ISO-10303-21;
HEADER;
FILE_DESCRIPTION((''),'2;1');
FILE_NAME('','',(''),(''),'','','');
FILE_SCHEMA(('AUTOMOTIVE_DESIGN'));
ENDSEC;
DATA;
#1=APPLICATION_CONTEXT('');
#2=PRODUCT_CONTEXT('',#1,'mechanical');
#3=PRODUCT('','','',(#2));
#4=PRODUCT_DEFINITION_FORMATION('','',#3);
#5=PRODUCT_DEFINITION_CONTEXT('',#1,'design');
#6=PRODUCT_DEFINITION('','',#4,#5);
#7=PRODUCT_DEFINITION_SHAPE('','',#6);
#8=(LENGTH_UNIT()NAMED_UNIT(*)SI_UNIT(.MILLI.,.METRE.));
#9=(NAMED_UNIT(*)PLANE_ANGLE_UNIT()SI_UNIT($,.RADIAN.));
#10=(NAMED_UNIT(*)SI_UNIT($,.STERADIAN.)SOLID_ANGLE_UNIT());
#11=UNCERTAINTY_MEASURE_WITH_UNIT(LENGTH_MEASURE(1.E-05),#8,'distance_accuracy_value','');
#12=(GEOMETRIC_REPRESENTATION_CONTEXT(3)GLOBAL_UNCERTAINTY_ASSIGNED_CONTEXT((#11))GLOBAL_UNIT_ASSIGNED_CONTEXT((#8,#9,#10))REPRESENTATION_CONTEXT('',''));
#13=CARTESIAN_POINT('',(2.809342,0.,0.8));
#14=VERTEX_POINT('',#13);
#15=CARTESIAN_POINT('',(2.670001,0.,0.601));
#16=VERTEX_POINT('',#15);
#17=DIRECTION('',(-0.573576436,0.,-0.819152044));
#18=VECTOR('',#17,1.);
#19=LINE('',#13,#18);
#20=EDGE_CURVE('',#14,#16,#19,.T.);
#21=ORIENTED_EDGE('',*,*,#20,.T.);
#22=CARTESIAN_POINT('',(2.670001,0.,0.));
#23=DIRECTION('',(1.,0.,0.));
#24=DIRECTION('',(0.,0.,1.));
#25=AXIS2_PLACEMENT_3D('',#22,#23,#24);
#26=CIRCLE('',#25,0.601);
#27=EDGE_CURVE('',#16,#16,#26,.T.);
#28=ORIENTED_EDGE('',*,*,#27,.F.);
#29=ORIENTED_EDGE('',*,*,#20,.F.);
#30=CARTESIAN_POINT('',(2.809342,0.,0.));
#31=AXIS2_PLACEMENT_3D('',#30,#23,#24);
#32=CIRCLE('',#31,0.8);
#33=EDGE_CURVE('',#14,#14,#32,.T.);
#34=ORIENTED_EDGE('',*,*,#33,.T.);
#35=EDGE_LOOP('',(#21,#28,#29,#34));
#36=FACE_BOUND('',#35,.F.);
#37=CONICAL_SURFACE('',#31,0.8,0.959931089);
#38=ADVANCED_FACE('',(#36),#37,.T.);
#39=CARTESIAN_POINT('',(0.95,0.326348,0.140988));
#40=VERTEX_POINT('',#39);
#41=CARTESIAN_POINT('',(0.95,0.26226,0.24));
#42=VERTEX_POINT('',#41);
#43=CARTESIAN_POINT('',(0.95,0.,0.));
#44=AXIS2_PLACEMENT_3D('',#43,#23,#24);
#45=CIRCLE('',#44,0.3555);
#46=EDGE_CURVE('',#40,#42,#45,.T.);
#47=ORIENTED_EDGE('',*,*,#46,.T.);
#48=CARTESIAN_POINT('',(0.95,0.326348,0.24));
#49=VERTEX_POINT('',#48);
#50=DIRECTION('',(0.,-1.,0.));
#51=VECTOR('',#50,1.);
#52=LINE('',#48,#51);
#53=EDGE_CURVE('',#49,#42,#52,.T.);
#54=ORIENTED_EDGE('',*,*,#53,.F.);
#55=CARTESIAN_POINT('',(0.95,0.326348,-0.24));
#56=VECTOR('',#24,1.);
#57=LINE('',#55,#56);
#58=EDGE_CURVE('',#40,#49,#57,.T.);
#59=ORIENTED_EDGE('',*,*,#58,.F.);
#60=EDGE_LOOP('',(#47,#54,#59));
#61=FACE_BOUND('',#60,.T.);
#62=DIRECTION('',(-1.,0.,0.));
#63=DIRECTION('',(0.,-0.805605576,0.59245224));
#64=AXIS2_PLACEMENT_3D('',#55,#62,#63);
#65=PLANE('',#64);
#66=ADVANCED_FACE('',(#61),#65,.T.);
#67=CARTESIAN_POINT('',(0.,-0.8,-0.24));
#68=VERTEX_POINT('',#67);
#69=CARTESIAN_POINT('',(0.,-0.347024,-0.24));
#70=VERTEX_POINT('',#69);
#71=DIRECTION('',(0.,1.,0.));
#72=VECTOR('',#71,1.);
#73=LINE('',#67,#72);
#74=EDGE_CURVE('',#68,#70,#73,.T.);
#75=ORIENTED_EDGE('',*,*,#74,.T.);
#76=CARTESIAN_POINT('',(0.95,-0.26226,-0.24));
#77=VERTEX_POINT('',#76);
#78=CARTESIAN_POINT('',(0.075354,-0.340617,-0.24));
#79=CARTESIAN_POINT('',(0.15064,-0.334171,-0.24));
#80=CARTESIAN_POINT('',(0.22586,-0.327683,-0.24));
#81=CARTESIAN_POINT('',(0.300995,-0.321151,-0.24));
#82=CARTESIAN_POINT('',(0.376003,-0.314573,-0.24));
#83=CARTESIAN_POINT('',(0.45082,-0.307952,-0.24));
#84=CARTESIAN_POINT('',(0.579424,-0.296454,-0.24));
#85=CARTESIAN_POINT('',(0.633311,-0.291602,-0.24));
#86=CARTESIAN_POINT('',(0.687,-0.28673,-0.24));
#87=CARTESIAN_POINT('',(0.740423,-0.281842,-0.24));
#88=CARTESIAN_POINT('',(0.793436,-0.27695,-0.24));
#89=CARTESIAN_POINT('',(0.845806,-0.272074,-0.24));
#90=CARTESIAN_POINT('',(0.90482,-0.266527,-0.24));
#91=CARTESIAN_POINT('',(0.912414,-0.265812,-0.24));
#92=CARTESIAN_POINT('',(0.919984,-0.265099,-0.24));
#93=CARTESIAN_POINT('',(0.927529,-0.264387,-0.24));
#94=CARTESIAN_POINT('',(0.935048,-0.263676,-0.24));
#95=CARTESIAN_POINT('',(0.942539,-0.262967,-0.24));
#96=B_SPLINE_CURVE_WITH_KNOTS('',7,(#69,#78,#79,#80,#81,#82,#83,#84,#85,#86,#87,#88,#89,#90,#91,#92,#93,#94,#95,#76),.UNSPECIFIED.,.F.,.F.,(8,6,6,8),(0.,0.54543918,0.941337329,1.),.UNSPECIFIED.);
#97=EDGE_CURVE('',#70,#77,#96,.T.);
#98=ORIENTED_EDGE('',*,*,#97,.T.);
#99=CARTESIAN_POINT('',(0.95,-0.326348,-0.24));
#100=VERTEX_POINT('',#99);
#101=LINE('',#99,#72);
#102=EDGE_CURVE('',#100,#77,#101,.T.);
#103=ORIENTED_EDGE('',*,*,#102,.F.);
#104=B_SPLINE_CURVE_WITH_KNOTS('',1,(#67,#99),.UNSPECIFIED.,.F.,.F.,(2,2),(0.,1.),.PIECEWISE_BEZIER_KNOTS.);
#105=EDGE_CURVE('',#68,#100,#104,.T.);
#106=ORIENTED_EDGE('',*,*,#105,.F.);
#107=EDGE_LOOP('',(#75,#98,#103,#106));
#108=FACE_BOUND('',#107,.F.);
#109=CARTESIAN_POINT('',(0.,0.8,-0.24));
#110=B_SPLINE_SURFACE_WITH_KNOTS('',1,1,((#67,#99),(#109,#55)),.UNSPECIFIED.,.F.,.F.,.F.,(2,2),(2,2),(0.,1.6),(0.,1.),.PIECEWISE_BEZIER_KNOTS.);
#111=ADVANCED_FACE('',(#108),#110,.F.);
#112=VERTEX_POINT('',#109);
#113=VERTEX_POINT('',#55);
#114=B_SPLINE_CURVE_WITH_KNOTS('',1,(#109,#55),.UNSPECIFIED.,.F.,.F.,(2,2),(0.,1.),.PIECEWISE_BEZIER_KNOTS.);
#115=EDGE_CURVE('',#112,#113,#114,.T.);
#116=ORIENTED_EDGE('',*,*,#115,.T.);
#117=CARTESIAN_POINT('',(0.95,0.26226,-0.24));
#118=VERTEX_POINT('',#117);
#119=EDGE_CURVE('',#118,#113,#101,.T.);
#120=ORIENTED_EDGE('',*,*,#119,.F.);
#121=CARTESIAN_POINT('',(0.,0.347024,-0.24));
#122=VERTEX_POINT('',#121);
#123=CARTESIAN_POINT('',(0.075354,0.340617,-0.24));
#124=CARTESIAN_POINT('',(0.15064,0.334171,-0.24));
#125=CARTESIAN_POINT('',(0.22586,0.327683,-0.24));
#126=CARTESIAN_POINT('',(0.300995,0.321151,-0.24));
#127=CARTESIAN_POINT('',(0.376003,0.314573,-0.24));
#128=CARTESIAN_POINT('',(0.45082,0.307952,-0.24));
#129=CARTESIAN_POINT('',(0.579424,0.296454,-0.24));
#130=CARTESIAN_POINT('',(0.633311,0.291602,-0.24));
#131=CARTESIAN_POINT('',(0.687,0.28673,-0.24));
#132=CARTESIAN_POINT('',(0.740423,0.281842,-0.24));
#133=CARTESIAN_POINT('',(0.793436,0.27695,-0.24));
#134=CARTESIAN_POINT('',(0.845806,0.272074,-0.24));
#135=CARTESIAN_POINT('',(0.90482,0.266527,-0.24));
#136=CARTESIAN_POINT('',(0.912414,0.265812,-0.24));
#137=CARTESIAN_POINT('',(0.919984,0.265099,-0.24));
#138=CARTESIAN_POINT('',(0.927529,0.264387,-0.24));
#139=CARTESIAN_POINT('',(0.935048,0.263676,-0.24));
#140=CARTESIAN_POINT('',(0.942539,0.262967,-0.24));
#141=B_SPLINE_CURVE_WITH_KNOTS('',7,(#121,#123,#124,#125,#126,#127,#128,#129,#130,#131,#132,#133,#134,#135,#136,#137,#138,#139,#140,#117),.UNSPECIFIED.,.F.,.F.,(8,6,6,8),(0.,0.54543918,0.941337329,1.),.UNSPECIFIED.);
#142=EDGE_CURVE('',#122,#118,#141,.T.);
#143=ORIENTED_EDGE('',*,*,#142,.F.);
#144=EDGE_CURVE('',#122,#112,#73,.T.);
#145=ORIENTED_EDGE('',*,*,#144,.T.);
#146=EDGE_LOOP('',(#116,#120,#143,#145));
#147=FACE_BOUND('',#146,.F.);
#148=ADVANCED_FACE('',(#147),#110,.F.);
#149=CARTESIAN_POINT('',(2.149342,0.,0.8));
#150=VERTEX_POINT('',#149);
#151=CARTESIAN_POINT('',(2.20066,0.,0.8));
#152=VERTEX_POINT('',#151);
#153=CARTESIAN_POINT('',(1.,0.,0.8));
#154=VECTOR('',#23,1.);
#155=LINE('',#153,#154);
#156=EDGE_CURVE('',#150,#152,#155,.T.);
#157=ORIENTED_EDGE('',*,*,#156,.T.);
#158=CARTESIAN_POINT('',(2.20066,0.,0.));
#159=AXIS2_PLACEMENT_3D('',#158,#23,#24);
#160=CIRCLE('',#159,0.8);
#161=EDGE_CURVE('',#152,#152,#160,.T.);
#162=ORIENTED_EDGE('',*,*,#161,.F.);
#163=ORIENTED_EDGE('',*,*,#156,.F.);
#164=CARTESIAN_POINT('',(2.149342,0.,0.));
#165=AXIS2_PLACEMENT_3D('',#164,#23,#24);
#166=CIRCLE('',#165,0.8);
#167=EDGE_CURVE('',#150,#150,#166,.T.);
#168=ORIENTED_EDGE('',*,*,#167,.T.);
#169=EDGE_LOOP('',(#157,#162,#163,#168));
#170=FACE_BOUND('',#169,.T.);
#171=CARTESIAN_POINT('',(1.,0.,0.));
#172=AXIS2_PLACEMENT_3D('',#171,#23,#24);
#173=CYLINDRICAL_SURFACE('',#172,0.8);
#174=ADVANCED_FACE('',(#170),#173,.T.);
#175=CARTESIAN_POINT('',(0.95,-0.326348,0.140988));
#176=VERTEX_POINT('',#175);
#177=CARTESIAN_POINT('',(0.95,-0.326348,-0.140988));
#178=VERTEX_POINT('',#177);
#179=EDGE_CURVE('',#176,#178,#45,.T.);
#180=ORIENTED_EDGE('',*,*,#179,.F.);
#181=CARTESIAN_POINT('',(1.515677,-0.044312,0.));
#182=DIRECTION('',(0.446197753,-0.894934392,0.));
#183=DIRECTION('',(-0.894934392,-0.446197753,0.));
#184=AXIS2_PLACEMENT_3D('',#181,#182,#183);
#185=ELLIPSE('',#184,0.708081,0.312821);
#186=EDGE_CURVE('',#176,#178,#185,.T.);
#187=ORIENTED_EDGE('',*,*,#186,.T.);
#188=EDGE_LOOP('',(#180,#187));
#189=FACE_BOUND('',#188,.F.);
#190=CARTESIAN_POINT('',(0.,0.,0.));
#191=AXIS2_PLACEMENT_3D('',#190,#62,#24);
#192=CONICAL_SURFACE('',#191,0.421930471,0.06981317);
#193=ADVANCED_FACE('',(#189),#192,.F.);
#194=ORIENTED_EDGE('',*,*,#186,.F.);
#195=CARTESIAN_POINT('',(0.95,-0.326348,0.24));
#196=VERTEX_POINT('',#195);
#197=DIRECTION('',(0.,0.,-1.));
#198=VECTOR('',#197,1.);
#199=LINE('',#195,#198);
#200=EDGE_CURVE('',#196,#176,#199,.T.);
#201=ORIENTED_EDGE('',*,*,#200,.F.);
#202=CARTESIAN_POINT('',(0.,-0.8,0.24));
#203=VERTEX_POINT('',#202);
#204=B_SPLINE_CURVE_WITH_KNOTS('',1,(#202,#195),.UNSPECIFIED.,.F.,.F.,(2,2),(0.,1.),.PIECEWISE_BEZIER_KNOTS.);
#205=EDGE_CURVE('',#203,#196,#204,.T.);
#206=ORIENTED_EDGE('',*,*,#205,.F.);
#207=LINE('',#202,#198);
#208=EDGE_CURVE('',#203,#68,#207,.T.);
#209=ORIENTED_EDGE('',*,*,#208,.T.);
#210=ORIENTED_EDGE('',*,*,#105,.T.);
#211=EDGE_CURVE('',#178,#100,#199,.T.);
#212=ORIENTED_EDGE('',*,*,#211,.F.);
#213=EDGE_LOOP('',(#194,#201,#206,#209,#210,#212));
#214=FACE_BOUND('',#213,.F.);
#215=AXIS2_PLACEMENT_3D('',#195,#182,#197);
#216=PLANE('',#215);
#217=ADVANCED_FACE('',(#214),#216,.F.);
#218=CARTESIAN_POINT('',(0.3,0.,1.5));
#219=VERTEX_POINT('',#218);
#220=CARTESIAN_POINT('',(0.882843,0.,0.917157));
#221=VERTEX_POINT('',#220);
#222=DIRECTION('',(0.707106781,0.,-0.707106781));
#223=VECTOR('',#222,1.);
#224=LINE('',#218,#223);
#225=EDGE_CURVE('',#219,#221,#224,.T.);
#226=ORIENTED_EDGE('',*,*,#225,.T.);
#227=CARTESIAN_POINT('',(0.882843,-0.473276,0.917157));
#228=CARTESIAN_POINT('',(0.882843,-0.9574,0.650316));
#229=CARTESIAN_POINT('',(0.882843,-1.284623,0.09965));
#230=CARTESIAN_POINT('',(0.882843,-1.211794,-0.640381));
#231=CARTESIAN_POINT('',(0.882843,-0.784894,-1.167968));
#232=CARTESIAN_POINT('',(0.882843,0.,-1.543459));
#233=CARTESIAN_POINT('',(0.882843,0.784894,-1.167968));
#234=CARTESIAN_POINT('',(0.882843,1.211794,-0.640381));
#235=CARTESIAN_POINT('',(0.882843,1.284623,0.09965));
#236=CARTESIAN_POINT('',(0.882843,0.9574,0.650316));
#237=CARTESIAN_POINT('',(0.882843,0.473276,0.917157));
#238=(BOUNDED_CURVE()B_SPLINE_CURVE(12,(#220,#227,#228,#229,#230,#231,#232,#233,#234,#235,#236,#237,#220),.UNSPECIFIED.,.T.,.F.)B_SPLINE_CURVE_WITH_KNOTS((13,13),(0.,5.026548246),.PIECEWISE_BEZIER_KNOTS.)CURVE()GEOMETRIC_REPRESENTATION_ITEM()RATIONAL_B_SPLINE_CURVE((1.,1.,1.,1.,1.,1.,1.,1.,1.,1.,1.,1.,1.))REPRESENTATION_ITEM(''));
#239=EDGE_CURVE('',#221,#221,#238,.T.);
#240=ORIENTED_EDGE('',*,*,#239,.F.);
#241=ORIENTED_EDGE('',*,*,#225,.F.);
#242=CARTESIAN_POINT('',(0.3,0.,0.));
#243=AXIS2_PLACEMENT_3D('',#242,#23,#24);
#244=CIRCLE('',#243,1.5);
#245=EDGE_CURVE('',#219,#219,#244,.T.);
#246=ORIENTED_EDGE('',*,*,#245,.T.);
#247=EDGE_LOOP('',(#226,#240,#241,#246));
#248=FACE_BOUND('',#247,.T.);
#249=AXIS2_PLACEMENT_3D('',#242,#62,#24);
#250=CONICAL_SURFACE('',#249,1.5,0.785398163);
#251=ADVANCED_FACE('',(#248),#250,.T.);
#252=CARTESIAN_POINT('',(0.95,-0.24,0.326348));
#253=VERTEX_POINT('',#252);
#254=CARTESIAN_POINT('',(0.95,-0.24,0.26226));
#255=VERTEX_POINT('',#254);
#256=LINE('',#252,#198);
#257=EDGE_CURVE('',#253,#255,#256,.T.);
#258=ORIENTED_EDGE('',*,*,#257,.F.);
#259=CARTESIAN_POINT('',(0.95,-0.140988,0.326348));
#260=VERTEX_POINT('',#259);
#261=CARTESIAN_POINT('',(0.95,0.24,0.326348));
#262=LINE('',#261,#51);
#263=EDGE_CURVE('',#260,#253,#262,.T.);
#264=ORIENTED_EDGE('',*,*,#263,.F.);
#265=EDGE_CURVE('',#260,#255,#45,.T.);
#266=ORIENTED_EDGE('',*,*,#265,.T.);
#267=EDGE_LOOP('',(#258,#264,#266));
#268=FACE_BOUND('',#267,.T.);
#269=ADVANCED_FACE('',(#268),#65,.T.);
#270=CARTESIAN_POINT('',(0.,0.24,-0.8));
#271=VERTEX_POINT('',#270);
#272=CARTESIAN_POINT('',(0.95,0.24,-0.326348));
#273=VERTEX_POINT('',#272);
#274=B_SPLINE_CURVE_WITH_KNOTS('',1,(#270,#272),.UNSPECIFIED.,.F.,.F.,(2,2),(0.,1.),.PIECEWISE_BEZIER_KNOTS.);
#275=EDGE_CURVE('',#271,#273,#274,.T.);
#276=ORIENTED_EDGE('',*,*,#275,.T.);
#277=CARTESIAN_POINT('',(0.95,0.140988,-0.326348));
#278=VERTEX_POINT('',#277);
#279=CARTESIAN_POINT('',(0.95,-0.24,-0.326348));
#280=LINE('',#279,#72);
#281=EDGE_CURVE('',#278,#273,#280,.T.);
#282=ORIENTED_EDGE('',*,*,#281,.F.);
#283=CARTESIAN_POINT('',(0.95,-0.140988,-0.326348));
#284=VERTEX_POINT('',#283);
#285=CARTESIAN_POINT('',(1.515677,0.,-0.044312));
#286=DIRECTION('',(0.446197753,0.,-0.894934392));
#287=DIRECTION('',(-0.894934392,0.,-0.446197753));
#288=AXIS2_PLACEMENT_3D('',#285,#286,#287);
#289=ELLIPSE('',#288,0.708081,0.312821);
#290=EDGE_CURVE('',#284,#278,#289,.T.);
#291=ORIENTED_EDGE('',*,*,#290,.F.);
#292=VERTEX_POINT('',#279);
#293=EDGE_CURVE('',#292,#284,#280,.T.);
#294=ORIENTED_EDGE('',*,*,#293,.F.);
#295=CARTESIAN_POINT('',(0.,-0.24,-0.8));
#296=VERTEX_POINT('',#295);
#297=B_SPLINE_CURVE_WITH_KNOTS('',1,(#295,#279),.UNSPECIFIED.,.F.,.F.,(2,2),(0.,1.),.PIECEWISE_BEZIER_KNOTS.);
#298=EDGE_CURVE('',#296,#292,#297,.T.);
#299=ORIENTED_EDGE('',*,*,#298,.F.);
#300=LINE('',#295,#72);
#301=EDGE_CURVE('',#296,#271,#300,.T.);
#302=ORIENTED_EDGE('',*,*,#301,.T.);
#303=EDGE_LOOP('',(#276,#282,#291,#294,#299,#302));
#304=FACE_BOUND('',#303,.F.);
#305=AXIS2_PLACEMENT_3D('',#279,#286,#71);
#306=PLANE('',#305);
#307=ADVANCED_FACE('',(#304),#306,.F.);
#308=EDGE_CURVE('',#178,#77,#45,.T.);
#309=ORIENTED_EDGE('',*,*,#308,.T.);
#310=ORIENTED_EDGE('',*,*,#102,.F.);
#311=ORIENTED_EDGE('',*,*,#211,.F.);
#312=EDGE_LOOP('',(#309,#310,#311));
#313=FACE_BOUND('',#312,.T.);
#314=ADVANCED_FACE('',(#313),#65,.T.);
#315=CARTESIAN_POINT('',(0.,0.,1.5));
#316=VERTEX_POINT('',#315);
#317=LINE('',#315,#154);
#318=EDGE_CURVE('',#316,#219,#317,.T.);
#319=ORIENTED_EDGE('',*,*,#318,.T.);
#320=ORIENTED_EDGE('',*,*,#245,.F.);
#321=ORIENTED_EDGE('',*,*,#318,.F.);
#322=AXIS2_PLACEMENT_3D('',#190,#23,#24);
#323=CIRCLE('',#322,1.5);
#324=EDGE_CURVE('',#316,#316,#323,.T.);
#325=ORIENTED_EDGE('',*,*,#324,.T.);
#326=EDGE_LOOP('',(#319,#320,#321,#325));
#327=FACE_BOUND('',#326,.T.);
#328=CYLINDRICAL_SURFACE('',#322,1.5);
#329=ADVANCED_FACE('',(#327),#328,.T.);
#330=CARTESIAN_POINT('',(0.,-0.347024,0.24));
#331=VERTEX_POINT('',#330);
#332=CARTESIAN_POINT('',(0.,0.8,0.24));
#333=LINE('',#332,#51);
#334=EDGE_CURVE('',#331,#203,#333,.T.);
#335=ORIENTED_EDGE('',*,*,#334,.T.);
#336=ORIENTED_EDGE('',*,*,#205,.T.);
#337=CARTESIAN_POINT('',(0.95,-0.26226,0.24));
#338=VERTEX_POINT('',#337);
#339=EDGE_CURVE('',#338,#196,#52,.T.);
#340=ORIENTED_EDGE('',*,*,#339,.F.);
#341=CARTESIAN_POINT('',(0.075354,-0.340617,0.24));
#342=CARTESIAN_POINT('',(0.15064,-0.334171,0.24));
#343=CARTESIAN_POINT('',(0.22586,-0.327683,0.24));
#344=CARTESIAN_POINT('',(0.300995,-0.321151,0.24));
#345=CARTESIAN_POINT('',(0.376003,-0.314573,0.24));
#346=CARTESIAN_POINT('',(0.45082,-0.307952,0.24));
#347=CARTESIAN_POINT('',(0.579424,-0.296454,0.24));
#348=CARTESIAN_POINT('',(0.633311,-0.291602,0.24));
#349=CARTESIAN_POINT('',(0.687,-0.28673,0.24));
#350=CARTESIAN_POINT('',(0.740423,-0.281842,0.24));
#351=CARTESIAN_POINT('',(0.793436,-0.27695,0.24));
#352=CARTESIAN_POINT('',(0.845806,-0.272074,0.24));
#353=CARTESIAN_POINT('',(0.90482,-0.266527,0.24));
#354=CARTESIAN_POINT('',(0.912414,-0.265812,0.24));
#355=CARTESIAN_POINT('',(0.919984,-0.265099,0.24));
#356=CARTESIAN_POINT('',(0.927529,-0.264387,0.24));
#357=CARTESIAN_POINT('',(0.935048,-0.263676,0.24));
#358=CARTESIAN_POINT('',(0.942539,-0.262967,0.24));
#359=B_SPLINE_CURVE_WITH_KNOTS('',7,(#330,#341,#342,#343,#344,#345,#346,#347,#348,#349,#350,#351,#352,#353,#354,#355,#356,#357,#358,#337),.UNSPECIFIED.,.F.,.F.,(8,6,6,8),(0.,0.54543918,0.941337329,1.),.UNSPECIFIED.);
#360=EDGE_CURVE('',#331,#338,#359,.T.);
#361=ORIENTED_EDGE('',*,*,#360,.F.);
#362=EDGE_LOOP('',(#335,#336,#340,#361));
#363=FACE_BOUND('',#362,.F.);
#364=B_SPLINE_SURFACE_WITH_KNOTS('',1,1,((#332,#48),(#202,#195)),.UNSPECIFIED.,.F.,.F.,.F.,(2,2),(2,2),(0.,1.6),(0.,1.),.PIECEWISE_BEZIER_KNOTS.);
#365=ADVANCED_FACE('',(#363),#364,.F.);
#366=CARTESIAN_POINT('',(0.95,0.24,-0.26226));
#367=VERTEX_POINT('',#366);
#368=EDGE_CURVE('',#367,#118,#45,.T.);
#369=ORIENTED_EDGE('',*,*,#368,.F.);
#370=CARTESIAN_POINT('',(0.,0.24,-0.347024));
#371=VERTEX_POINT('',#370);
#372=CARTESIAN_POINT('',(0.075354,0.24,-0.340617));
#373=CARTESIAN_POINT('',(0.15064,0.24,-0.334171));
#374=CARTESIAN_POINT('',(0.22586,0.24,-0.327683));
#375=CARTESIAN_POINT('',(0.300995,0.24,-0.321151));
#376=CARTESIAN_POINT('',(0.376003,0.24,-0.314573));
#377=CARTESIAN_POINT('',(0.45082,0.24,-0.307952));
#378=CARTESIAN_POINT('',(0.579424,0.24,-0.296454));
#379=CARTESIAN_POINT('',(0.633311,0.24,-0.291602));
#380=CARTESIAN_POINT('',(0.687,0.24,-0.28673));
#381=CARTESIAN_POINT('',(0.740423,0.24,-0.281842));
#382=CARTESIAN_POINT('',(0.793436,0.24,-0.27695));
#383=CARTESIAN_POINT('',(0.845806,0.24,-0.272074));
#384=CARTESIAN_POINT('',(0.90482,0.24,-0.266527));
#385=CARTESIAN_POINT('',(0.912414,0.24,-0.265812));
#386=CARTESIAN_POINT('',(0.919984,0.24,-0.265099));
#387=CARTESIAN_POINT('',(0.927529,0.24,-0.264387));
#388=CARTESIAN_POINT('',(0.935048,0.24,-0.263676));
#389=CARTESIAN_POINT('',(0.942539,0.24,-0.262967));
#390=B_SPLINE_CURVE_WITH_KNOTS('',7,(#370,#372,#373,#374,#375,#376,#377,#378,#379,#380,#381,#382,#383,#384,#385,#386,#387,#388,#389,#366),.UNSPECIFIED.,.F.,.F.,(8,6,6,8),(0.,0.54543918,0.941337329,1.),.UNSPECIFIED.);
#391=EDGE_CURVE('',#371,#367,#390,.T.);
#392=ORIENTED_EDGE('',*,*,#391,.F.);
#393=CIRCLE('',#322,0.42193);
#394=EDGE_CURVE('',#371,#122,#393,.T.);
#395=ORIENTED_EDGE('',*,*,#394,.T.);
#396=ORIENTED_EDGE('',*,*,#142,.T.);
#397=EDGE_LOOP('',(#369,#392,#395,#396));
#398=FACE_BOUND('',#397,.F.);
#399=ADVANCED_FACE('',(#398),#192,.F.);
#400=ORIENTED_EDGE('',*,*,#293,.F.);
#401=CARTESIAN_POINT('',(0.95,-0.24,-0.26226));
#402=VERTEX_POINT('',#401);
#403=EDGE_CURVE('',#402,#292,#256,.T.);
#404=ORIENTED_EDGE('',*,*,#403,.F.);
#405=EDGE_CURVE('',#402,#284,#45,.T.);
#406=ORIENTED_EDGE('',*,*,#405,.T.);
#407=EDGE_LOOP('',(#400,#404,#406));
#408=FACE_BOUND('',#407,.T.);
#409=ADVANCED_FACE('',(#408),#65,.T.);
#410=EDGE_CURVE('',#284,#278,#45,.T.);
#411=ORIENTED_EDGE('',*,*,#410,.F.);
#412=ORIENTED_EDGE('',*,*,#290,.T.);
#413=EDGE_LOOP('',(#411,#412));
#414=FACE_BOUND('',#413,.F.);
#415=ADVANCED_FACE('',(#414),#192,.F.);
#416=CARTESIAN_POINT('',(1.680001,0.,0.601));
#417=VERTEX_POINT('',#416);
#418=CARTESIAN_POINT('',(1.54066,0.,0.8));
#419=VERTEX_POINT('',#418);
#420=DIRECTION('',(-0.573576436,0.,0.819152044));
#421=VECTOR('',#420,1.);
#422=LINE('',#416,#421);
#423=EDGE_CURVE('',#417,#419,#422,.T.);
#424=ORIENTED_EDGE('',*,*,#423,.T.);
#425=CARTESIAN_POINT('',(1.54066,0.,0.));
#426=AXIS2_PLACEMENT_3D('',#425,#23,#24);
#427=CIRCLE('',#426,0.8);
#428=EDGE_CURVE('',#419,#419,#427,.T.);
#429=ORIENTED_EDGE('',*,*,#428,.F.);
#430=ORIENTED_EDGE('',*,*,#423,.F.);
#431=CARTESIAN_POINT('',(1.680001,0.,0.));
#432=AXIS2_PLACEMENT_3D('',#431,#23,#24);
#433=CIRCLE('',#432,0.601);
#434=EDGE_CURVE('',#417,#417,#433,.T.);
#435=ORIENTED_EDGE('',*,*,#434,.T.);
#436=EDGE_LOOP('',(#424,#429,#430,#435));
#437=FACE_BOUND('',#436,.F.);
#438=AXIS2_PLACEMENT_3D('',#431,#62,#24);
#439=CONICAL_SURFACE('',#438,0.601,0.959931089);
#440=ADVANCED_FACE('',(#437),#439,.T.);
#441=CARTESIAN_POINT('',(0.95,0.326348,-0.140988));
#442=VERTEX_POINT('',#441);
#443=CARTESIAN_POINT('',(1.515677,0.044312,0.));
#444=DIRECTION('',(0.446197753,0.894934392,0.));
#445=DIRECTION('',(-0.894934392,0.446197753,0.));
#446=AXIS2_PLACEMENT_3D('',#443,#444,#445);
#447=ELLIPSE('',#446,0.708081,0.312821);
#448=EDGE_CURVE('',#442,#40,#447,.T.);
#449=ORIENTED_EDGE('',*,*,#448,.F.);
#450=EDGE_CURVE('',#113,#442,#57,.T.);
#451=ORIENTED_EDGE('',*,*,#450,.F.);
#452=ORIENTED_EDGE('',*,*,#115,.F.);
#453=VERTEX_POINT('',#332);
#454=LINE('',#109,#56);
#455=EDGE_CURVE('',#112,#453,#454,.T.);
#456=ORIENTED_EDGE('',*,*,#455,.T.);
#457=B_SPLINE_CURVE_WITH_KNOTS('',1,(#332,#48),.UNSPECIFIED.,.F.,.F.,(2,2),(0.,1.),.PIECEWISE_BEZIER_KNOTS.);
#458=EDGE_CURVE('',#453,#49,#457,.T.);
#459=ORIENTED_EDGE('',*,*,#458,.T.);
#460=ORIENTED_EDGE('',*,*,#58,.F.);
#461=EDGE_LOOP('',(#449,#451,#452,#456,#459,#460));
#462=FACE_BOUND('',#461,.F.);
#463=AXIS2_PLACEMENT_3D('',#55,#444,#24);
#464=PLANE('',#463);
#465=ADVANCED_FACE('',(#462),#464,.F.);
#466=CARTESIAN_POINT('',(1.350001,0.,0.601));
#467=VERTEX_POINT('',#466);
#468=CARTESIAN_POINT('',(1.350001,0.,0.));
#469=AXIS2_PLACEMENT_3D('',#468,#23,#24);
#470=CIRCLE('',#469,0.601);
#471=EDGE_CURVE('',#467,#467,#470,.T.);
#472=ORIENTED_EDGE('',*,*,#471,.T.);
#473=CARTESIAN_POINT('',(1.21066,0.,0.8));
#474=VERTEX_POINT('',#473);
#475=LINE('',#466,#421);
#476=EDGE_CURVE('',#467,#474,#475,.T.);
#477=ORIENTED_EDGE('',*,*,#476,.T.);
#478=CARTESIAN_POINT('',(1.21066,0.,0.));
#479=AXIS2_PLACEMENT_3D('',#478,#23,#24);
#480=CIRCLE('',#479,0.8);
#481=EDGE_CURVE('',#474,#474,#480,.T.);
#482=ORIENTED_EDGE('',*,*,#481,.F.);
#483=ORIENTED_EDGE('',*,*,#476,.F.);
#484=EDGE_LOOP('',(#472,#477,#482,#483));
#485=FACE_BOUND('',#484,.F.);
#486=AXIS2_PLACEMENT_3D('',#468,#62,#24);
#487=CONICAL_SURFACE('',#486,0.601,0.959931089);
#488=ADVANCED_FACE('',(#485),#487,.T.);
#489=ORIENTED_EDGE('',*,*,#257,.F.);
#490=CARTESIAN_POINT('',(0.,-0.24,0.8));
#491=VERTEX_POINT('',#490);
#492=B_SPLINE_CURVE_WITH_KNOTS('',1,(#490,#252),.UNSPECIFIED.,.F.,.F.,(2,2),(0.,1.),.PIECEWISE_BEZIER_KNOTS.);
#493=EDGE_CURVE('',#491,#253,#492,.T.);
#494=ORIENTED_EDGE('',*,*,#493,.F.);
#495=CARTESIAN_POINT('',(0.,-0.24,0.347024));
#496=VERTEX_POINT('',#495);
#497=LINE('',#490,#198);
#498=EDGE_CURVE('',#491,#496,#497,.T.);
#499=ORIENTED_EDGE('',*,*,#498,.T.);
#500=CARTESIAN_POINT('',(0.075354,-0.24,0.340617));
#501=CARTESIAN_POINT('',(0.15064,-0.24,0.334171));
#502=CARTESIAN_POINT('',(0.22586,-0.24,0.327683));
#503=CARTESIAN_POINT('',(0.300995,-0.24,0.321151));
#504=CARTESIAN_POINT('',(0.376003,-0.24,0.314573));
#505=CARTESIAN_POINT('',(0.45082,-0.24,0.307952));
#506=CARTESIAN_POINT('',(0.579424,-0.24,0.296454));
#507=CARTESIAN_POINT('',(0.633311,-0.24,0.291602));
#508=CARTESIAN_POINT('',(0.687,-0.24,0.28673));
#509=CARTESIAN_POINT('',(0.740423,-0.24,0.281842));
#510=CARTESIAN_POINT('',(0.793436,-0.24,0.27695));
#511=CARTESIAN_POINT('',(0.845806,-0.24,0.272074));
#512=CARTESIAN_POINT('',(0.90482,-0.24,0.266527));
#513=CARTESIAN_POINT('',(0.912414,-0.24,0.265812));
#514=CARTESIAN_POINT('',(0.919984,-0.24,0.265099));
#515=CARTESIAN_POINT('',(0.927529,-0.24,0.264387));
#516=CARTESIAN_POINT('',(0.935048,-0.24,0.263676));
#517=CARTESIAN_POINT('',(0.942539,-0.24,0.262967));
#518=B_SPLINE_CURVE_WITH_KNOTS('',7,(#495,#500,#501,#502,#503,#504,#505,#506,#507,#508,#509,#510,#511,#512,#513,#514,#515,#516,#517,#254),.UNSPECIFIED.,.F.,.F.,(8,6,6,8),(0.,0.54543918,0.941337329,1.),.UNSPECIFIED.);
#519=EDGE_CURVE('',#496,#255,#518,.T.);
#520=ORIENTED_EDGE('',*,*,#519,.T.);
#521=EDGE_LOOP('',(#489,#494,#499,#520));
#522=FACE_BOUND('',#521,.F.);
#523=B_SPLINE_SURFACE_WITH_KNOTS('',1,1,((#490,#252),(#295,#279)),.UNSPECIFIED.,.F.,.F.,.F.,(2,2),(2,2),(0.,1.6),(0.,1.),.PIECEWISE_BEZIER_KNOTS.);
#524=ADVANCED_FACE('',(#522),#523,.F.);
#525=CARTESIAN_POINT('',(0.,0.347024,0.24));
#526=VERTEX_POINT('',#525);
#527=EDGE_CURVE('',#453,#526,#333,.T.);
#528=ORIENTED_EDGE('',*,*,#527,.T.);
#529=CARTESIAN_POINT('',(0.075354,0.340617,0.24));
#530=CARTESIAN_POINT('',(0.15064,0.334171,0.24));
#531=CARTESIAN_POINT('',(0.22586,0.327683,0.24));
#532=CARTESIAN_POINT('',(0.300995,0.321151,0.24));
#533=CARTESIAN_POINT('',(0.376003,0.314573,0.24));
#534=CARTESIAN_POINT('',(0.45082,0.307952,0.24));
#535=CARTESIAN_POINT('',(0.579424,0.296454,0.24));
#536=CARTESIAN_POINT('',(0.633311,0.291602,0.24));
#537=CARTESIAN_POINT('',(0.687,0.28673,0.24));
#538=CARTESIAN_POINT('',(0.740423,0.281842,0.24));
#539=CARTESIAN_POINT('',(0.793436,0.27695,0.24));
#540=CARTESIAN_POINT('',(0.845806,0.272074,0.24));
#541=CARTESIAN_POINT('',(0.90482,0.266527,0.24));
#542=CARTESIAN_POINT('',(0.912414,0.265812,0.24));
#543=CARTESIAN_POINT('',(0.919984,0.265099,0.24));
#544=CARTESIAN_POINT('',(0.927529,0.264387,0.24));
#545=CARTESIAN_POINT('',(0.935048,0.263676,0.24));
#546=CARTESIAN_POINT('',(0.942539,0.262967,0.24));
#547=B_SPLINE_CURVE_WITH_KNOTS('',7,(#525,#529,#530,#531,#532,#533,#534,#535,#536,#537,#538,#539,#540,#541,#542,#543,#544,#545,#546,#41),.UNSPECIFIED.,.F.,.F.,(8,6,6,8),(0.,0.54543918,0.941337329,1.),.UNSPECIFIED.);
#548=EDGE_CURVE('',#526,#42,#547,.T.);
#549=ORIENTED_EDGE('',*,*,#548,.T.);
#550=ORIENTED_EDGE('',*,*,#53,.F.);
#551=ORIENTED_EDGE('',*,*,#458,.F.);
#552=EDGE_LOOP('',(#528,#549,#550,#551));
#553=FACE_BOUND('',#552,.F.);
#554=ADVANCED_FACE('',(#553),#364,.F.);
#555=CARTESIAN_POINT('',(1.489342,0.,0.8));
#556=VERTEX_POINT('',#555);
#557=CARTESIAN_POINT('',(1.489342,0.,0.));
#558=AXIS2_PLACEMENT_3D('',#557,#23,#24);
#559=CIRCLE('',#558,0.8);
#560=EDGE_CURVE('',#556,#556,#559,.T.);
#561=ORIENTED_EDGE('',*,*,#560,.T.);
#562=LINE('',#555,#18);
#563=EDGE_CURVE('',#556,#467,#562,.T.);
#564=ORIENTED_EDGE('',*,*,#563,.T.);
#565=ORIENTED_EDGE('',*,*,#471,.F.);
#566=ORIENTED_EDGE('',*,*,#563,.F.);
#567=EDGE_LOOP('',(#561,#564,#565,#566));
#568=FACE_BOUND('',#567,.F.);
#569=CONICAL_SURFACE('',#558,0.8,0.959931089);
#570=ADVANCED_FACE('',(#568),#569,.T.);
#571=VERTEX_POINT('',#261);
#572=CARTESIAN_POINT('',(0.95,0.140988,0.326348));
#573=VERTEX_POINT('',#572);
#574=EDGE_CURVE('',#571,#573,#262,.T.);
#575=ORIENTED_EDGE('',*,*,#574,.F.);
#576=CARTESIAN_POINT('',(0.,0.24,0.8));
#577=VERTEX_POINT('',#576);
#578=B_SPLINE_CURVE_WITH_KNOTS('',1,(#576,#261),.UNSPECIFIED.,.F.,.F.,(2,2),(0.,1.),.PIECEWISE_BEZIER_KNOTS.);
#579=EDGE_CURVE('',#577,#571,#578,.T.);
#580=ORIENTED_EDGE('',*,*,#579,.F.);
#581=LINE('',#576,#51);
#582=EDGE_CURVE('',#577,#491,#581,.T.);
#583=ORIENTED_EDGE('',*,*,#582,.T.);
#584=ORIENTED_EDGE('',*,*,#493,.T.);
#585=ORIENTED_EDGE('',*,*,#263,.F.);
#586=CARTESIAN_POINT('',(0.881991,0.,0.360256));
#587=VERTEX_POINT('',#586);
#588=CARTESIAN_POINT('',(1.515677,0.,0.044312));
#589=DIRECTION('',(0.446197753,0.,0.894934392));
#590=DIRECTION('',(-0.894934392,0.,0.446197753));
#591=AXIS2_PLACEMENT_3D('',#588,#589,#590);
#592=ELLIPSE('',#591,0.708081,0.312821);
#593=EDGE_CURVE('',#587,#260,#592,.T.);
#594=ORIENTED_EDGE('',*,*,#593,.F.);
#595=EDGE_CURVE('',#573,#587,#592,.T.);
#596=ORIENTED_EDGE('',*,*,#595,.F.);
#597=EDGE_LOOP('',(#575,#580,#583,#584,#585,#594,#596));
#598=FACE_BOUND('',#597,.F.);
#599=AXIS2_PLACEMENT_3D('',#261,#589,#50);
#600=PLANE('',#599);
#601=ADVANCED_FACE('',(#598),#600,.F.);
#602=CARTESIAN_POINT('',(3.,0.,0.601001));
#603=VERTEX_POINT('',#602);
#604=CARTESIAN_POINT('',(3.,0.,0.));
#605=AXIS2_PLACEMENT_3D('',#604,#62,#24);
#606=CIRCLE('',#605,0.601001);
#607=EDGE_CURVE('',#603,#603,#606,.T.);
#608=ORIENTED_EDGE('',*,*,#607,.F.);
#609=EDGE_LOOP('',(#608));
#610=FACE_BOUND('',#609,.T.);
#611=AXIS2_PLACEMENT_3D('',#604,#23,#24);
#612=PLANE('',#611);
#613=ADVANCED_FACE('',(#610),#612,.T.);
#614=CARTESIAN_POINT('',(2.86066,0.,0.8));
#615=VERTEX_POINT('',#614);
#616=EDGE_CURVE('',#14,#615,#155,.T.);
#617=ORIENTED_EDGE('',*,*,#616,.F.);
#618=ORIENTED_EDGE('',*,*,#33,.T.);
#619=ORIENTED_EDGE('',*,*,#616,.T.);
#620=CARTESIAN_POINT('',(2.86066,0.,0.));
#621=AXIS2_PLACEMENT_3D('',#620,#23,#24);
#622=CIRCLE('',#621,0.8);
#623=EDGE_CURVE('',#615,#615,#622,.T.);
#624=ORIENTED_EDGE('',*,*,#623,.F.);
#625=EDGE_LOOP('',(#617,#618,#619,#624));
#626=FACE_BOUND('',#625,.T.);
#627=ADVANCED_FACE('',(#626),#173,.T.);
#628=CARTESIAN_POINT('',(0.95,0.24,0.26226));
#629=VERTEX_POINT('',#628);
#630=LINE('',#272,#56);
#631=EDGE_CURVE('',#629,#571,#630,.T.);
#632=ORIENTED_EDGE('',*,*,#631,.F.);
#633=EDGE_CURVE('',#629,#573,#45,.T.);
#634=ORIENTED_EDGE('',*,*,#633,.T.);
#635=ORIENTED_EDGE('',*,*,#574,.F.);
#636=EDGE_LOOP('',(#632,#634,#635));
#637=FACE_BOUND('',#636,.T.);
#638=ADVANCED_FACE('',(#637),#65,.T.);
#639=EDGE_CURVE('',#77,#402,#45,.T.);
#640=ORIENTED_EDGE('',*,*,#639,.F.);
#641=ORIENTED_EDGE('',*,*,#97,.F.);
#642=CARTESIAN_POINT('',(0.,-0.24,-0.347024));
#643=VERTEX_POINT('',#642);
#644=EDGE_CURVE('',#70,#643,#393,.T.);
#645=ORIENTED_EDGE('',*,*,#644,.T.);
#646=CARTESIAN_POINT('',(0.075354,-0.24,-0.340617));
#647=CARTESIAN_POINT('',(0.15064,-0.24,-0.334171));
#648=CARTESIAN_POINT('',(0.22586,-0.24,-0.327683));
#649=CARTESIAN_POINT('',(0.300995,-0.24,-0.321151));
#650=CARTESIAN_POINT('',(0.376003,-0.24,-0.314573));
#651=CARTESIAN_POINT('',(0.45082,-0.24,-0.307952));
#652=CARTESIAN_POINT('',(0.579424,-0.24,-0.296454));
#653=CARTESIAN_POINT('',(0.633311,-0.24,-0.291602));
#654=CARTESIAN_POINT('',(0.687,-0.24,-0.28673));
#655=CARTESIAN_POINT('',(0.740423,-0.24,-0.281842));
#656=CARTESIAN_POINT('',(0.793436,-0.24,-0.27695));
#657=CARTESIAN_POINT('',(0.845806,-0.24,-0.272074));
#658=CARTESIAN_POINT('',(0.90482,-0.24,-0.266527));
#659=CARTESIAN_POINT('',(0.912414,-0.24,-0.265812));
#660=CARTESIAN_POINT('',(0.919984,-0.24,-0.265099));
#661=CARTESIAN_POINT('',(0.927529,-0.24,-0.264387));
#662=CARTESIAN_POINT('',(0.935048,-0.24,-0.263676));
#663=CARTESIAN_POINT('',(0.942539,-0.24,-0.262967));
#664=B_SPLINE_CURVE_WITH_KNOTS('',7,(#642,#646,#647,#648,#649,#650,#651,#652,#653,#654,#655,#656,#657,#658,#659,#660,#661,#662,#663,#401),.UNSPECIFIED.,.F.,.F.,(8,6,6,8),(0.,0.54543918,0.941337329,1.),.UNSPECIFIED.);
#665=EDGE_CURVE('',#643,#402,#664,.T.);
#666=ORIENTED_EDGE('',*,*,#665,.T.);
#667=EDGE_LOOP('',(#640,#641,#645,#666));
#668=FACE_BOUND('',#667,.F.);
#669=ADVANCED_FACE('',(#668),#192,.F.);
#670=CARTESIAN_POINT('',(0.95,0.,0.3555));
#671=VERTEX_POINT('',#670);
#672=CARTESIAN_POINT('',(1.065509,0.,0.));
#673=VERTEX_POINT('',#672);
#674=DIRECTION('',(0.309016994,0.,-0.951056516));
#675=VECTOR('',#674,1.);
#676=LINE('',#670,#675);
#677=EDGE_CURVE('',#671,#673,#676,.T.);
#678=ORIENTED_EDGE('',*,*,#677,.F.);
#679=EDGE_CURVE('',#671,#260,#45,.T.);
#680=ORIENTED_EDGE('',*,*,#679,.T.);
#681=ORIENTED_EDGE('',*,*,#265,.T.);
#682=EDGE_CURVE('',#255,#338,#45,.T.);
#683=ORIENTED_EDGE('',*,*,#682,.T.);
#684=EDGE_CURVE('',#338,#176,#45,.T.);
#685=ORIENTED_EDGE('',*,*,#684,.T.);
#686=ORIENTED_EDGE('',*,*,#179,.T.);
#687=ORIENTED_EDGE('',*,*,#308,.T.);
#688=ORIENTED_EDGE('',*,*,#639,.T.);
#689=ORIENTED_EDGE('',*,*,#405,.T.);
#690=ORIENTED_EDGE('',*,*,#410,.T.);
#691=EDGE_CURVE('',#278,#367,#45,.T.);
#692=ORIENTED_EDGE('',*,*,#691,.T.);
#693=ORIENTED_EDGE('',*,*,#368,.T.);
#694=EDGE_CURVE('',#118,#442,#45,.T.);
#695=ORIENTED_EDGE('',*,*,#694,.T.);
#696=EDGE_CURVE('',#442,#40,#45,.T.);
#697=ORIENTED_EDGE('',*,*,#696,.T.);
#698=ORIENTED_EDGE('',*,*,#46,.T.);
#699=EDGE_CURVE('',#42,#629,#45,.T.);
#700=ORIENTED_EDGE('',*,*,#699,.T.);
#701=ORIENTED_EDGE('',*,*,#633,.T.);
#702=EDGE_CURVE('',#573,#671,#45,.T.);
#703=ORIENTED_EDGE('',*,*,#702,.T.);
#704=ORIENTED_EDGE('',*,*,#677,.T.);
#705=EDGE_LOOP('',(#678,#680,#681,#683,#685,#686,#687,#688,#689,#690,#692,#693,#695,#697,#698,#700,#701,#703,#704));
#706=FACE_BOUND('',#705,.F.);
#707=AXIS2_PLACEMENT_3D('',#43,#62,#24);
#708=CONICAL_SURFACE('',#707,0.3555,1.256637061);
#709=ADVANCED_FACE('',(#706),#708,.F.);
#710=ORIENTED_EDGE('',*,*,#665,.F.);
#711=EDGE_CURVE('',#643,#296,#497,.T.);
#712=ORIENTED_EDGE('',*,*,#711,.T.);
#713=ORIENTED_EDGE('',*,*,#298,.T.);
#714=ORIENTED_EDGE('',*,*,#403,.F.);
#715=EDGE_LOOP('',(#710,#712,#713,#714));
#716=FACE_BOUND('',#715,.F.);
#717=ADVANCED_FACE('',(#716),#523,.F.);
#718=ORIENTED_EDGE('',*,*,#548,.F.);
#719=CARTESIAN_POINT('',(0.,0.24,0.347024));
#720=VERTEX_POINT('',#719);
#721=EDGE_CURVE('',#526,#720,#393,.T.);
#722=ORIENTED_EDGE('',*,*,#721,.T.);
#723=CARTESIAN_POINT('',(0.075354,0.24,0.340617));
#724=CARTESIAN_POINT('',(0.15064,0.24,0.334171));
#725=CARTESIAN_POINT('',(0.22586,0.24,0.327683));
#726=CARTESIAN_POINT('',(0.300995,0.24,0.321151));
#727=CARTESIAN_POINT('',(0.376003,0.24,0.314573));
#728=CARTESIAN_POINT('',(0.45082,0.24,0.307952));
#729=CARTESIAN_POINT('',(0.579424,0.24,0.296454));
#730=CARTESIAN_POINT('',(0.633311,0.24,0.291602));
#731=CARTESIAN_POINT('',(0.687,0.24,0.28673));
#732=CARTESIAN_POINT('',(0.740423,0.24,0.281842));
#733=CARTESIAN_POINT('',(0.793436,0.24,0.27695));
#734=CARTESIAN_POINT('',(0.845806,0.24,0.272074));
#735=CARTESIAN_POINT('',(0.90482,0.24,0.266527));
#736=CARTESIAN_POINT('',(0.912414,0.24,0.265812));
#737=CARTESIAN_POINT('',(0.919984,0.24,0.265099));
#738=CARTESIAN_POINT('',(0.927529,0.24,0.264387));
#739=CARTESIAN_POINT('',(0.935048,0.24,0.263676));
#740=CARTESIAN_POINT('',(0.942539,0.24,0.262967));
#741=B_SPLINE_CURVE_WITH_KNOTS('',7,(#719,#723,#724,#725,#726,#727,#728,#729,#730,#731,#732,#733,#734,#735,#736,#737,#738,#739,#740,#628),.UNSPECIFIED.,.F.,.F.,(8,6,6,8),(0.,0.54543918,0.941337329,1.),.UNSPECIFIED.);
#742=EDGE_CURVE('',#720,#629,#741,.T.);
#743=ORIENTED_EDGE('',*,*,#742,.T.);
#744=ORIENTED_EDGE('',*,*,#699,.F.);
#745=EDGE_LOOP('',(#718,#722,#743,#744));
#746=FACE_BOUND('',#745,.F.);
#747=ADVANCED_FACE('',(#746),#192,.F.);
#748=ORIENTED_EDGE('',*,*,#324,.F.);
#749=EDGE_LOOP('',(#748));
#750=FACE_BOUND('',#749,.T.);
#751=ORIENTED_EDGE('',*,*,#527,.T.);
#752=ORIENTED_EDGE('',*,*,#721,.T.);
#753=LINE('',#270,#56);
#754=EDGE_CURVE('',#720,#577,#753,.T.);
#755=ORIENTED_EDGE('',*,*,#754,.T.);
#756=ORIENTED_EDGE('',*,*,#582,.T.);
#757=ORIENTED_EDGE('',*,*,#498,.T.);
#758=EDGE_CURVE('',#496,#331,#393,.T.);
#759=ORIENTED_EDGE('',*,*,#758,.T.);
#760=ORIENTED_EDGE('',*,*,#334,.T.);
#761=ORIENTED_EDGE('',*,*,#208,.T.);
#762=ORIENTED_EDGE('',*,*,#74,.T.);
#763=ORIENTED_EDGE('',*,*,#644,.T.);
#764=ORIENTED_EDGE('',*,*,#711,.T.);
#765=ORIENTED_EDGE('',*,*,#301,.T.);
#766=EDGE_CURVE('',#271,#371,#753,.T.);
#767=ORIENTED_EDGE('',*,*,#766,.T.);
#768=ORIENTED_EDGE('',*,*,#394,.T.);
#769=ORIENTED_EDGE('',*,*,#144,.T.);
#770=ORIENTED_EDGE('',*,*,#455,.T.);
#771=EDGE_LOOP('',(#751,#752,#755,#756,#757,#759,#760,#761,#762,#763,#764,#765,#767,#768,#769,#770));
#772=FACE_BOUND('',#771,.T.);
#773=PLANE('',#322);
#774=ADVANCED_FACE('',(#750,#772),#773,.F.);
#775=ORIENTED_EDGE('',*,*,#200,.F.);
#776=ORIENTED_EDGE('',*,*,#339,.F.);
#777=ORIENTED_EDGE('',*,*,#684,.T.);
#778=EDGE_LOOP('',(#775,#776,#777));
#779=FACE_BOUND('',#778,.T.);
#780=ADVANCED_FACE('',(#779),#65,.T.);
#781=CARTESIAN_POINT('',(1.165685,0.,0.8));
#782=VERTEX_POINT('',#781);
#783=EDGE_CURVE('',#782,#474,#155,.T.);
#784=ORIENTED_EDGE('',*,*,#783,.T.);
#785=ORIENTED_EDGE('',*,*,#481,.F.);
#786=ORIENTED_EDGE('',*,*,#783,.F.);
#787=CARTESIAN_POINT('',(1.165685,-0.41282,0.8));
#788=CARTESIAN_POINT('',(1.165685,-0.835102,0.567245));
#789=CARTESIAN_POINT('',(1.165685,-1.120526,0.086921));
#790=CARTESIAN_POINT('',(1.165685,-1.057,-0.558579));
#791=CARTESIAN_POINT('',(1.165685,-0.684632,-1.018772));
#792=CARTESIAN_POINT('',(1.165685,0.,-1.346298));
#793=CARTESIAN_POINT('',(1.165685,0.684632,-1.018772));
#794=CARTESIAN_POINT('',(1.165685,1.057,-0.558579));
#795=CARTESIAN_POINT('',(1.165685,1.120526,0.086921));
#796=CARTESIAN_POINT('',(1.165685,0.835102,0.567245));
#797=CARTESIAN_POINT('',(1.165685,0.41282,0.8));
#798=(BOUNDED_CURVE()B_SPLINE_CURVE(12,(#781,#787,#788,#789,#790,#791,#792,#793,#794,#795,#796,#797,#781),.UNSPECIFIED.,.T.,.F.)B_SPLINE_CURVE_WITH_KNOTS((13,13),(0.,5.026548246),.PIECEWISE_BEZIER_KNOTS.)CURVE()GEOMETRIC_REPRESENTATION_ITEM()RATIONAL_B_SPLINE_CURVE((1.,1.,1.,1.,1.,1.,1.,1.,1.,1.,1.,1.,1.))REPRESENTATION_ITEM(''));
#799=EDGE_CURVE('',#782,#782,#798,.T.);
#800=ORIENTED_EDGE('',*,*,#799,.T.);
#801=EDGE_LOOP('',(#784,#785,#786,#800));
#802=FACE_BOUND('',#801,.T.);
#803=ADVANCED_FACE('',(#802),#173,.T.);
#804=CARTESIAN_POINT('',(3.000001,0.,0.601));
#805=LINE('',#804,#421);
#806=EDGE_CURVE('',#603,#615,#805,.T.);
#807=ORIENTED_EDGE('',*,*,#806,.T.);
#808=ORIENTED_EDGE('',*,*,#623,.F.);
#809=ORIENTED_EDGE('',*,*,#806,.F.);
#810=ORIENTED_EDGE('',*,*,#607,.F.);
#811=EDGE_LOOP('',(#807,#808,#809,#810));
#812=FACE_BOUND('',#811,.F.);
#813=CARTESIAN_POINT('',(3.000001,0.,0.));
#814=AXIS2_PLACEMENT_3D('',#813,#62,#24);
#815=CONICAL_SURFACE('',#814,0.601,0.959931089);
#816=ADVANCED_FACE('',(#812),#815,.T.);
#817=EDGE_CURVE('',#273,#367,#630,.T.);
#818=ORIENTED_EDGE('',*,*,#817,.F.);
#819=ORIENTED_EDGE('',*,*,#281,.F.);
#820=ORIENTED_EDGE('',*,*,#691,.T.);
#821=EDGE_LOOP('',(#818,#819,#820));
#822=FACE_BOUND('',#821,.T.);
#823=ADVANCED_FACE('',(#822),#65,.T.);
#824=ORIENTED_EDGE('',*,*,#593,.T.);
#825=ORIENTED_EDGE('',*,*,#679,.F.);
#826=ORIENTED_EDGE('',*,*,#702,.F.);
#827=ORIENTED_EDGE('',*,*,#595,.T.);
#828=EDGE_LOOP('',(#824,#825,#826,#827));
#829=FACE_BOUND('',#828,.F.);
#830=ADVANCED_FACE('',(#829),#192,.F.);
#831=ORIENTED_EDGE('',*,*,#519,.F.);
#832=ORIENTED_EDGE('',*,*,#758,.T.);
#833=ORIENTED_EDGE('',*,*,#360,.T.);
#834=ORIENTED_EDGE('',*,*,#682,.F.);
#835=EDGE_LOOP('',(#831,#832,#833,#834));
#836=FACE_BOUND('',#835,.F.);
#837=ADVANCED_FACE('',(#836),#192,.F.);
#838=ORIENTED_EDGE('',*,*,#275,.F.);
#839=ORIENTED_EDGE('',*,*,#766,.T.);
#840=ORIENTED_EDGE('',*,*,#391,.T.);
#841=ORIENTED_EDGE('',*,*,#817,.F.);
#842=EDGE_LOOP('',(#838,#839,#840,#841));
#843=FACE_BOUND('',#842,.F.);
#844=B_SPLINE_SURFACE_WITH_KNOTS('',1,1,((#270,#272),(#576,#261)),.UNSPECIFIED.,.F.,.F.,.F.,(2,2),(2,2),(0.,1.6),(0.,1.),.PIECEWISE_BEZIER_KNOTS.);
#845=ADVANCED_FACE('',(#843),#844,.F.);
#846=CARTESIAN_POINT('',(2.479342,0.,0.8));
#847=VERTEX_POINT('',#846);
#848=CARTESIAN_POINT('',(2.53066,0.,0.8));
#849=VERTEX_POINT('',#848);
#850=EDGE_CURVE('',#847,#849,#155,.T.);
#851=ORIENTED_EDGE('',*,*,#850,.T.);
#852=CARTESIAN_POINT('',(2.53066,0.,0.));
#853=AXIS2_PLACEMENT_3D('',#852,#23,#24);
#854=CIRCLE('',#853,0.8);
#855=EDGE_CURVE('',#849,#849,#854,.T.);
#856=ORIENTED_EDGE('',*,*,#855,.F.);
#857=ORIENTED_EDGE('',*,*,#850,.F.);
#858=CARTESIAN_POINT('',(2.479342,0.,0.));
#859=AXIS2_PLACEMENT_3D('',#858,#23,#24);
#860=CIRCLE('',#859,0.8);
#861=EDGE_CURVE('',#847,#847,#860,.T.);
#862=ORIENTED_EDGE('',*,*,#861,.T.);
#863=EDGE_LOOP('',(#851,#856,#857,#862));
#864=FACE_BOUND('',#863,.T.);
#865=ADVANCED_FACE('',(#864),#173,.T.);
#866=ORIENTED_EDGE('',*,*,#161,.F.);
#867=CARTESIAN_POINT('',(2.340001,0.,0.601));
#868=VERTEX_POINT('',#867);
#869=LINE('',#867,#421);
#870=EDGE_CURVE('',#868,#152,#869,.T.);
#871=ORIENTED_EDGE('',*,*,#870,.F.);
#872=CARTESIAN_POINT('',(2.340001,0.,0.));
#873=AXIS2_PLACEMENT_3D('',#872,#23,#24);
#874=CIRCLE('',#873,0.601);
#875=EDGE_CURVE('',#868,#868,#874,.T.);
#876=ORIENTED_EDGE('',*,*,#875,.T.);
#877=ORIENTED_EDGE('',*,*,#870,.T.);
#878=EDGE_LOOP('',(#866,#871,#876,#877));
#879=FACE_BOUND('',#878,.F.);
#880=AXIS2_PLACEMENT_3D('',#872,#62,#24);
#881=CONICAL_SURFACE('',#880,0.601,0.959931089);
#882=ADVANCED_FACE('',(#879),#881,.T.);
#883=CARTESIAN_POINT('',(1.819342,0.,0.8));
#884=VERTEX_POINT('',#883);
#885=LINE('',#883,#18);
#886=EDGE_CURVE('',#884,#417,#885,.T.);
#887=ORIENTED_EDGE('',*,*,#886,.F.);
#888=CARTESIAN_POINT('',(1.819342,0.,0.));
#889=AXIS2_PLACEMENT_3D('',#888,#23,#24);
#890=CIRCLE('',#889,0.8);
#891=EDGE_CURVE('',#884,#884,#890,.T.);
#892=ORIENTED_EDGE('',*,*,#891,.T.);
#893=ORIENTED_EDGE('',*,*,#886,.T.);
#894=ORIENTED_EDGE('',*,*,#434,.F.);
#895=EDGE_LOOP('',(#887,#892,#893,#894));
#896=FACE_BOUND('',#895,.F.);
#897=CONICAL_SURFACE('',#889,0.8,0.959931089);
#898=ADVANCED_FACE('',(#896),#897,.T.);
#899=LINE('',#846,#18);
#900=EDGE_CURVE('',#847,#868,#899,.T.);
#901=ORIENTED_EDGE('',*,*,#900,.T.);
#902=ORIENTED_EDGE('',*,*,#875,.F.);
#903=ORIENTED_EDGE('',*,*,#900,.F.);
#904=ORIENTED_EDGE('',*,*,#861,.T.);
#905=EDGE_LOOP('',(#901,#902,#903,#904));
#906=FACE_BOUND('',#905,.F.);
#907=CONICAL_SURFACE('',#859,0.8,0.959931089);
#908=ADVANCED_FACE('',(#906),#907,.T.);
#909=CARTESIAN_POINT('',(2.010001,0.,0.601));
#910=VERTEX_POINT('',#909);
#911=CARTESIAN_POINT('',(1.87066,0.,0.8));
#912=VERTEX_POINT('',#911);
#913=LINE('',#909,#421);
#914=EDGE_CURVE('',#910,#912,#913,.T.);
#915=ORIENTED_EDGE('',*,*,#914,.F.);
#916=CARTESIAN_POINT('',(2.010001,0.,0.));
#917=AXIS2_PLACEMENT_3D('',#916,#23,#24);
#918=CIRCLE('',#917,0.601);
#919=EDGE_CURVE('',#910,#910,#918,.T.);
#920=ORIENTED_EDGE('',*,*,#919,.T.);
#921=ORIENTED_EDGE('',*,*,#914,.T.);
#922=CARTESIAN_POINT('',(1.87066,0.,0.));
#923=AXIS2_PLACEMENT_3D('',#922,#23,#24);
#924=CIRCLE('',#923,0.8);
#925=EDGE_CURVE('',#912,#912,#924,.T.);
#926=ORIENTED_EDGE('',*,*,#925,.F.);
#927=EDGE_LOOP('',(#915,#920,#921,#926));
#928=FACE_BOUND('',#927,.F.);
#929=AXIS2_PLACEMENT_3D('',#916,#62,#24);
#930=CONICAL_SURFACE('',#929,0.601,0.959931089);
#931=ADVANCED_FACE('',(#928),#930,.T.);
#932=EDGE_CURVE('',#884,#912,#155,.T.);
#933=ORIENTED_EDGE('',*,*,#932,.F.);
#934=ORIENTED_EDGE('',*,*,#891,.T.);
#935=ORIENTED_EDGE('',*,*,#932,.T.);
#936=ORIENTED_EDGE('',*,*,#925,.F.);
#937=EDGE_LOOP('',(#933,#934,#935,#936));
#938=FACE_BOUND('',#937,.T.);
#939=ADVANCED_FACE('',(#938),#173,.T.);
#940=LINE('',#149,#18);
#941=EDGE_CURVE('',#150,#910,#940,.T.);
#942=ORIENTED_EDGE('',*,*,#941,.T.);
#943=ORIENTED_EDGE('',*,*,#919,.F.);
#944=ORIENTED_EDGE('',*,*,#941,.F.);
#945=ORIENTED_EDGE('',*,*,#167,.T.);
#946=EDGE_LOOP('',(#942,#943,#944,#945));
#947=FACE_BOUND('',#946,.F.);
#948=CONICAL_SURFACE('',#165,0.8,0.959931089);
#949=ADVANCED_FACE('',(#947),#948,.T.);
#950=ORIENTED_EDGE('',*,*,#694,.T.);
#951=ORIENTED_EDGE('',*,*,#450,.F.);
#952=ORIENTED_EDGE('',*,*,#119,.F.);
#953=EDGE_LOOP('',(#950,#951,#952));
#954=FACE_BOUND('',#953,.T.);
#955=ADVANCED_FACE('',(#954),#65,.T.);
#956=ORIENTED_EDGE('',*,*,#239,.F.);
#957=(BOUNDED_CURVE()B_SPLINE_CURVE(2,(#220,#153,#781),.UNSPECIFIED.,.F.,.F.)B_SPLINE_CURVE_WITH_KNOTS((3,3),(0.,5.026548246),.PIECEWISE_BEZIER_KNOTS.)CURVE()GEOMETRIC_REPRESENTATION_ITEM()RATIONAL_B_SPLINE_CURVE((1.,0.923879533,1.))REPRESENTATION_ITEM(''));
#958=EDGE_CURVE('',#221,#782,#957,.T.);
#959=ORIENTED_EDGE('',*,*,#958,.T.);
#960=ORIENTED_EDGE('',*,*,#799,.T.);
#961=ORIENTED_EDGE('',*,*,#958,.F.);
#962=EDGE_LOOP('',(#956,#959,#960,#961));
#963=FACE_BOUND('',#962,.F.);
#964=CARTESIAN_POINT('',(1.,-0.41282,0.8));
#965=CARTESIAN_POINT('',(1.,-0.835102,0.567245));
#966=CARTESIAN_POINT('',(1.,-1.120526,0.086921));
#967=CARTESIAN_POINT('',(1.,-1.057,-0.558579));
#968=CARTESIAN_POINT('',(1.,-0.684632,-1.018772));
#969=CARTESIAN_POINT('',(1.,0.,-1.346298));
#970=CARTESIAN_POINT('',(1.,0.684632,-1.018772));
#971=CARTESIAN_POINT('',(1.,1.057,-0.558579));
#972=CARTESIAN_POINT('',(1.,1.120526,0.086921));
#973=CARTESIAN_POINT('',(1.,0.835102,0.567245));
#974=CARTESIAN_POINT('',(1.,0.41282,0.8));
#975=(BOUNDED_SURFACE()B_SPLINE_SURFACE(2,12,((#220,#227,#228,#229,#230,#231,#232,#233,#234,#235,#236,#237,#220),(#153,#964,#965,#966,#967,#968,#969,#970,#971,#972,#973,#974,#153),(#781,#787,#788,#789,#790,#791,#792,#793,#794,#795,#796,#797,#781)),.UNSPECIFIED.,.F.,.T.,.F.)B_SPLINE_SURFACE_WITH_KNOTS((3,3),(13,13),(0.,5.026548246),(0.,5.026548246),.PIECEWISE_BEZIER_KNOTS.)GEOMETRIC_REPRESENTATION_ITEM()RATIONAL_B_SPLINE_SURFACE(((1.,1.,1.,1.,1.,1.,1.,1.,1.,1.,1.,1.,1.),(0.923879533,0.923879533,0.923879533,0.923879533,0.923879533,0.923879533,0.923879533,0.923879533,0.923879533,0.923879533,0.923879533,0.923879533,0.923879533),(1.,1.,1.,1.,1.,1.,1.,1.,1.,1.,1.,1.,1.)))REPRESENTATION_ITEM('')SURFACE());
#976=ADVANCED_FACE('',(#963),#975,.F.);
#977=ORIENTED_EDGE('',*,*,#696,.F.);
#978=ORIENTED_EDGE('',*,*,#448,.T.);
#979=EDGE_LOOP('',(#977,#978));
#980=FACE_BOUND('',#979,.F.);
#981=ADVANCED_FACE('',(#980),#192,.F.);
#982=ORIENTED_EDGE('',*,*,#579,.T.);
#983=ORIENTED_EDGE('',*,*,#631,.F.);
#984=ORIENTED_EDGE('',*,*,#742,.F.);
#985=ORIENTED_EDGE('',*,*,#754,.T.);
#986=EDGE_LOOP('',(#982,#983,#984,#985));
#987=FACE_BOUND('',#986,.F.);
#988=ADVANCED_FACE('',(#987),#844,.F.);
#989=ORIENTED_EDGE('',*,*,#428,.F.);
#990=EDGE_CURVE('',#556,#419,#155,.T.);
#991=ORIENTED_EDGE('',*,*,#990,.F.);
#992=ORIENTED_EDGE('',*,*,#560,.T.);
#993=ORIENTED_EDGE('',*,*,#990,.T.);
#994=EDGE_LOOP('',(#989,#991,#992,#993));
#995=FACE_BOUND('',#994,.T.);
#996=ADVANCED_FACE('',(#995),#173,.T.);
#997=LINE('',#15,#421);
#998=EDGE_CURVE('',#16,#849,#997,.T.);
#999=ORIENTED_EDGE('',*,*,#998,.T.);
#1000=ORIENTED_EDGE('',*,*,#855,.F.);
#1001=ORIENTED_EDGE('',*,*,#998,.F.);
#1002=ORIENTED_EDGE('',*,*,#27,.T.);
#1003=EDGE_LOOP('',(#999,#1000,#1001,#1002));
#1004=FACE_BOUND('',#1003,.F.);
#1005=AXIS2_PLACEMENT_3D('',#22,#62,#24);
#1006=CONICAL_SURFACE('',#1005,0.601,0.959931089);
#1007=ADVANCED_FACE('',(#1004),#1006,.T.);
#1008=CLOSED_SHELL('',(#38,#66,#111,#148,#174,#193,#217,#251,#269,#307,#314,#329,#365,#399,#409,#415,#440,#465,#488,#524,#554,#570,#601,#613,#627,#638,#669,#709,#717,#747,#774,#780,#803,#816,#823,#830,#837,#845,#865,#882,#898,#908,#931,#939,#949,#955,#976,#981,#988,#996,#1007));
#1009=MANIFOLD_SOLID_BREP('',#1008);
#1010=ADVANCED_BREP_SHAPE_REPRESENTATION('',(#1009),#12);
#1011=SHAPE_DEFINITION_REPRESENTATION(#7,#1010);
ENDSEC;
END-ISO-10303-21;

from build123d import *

# Parameters (mm, degrees)
FILLET1_R       = 0.4
RECPAT_COUNT    = 2
RECPAT_ANGLE    = 90
THDSCHPAT_COUNT = 6
THDSCHPAT_PITCH = 0.33


with BuildPart() as part:
    # BodySke → Base-Revolve (revolve)
    with BuildSketch(Plane.XY, mode=Mode.PRIVATE) as base_revolve_sk:
        Polygon((0, 0), (0, 1.5), (0.3, 1.5), (1, 0.8), (3, 0.8), (3, 0), align=None)
    revolve(base_revolve_sk.sketch.rotate(Axis((-6.35, 0, 0), (1, 0, 0)), 90), axis=Axis((-6.35, 0, 0), (1, 0, 0)))

    # Fillet1
    fillet1_edges = [part.edges().sort_by_distance(p)[0] for p in [
        (1, 0, -0.8),
    ]]
    fillet(fillet1_edges, radius=FILLET1_R)

    # Sketch3 → Recess section 0
    with BuildSketch(Plane.ZY):
        with BuildLine():
            Line((-0.24, 0.8), (0.24, 0.8))
            Line((0.24, 0.8), (0.24, -0.8))
            Line((0.24, -0.8), (-0.24, -0.8))
            Line((-0.24, -0.8), (-0.24, 0.8))
        make_face()
    # Sketch4 → Recess section 1
    with BuildSketch(Plane.ZY.offset(-0.95)):
        with BuildLine():
            Line((-0.24, 0.326347552), (0.24, 0.326347552))
            Line((0.24, 0.326347552), (0.24, -0.326347552))
            Line((0.24, -0.326347552), (-0.24, -0.326347552))
            Line((-0.24, -0.326347552), (-0.24, 0.326347552))
        make_face()
    recess = loft(mode=Mode.SUBTRACT)

    # RecPat: Recess ×2 about axis
    recpat_axis = Axis((0, 0, 0), (1, 0, 0))
    for i in range(1, RECPAT_COUNT):
        add(recess.rotate(recpat_axis, i * RECPAT_ANGLE / (RECPAT_COUNT - 1)), mode=Mode.SUBTRACT)

    # RecCorSke → RecessCore (revolve, cut)
    with BuildSketch(Plane.XY, mode=Mode.PRIVATE) as recesscore_sk:
        Polygon((0, 0), (0, 0.421930471), (0.95, 0.3555), (1.065508952, 0), align=None)
    revolve(recesscore_sk.sketch.rotate(Axis((-3.175, 0, 0), (1, 0, 0)), 90), axis=Axis((-3.175, 0, 0), (1, 0, 0)), mode=Mode.SUBTRACT)

    # ThdSchSke → ThreadSchematic (revolve, cut)
    with BuildSketch(Plane.XY, mode=Mode.PRIVATE) as threadschematic_sk:
        Polygon((1.350001, -0.601), (1.2106597, -0.8), (1.2106597, -1), (1.4893423, -1), (1.4893423, -0.8), align=None)
    threadschematic = revolve(threadschematic_sk.sketch.rotate(Axis((-3.175, 0, 0), (1, 0, 0)), 270), axis=Axis((-3.175, 0, 0), (1, 0, 0)), mode=Mode.SUBTRACT)

    # ThdSchPat: ThreadSchematic ×6
    with Locations(*[(i * THDSCHPAT_PITCH, 0, 0) for i in range(1, THDSCHPAT_COUNT)]):
        add(threadschematic, mode=Mode.SUBTRACT)


solid = part.part
